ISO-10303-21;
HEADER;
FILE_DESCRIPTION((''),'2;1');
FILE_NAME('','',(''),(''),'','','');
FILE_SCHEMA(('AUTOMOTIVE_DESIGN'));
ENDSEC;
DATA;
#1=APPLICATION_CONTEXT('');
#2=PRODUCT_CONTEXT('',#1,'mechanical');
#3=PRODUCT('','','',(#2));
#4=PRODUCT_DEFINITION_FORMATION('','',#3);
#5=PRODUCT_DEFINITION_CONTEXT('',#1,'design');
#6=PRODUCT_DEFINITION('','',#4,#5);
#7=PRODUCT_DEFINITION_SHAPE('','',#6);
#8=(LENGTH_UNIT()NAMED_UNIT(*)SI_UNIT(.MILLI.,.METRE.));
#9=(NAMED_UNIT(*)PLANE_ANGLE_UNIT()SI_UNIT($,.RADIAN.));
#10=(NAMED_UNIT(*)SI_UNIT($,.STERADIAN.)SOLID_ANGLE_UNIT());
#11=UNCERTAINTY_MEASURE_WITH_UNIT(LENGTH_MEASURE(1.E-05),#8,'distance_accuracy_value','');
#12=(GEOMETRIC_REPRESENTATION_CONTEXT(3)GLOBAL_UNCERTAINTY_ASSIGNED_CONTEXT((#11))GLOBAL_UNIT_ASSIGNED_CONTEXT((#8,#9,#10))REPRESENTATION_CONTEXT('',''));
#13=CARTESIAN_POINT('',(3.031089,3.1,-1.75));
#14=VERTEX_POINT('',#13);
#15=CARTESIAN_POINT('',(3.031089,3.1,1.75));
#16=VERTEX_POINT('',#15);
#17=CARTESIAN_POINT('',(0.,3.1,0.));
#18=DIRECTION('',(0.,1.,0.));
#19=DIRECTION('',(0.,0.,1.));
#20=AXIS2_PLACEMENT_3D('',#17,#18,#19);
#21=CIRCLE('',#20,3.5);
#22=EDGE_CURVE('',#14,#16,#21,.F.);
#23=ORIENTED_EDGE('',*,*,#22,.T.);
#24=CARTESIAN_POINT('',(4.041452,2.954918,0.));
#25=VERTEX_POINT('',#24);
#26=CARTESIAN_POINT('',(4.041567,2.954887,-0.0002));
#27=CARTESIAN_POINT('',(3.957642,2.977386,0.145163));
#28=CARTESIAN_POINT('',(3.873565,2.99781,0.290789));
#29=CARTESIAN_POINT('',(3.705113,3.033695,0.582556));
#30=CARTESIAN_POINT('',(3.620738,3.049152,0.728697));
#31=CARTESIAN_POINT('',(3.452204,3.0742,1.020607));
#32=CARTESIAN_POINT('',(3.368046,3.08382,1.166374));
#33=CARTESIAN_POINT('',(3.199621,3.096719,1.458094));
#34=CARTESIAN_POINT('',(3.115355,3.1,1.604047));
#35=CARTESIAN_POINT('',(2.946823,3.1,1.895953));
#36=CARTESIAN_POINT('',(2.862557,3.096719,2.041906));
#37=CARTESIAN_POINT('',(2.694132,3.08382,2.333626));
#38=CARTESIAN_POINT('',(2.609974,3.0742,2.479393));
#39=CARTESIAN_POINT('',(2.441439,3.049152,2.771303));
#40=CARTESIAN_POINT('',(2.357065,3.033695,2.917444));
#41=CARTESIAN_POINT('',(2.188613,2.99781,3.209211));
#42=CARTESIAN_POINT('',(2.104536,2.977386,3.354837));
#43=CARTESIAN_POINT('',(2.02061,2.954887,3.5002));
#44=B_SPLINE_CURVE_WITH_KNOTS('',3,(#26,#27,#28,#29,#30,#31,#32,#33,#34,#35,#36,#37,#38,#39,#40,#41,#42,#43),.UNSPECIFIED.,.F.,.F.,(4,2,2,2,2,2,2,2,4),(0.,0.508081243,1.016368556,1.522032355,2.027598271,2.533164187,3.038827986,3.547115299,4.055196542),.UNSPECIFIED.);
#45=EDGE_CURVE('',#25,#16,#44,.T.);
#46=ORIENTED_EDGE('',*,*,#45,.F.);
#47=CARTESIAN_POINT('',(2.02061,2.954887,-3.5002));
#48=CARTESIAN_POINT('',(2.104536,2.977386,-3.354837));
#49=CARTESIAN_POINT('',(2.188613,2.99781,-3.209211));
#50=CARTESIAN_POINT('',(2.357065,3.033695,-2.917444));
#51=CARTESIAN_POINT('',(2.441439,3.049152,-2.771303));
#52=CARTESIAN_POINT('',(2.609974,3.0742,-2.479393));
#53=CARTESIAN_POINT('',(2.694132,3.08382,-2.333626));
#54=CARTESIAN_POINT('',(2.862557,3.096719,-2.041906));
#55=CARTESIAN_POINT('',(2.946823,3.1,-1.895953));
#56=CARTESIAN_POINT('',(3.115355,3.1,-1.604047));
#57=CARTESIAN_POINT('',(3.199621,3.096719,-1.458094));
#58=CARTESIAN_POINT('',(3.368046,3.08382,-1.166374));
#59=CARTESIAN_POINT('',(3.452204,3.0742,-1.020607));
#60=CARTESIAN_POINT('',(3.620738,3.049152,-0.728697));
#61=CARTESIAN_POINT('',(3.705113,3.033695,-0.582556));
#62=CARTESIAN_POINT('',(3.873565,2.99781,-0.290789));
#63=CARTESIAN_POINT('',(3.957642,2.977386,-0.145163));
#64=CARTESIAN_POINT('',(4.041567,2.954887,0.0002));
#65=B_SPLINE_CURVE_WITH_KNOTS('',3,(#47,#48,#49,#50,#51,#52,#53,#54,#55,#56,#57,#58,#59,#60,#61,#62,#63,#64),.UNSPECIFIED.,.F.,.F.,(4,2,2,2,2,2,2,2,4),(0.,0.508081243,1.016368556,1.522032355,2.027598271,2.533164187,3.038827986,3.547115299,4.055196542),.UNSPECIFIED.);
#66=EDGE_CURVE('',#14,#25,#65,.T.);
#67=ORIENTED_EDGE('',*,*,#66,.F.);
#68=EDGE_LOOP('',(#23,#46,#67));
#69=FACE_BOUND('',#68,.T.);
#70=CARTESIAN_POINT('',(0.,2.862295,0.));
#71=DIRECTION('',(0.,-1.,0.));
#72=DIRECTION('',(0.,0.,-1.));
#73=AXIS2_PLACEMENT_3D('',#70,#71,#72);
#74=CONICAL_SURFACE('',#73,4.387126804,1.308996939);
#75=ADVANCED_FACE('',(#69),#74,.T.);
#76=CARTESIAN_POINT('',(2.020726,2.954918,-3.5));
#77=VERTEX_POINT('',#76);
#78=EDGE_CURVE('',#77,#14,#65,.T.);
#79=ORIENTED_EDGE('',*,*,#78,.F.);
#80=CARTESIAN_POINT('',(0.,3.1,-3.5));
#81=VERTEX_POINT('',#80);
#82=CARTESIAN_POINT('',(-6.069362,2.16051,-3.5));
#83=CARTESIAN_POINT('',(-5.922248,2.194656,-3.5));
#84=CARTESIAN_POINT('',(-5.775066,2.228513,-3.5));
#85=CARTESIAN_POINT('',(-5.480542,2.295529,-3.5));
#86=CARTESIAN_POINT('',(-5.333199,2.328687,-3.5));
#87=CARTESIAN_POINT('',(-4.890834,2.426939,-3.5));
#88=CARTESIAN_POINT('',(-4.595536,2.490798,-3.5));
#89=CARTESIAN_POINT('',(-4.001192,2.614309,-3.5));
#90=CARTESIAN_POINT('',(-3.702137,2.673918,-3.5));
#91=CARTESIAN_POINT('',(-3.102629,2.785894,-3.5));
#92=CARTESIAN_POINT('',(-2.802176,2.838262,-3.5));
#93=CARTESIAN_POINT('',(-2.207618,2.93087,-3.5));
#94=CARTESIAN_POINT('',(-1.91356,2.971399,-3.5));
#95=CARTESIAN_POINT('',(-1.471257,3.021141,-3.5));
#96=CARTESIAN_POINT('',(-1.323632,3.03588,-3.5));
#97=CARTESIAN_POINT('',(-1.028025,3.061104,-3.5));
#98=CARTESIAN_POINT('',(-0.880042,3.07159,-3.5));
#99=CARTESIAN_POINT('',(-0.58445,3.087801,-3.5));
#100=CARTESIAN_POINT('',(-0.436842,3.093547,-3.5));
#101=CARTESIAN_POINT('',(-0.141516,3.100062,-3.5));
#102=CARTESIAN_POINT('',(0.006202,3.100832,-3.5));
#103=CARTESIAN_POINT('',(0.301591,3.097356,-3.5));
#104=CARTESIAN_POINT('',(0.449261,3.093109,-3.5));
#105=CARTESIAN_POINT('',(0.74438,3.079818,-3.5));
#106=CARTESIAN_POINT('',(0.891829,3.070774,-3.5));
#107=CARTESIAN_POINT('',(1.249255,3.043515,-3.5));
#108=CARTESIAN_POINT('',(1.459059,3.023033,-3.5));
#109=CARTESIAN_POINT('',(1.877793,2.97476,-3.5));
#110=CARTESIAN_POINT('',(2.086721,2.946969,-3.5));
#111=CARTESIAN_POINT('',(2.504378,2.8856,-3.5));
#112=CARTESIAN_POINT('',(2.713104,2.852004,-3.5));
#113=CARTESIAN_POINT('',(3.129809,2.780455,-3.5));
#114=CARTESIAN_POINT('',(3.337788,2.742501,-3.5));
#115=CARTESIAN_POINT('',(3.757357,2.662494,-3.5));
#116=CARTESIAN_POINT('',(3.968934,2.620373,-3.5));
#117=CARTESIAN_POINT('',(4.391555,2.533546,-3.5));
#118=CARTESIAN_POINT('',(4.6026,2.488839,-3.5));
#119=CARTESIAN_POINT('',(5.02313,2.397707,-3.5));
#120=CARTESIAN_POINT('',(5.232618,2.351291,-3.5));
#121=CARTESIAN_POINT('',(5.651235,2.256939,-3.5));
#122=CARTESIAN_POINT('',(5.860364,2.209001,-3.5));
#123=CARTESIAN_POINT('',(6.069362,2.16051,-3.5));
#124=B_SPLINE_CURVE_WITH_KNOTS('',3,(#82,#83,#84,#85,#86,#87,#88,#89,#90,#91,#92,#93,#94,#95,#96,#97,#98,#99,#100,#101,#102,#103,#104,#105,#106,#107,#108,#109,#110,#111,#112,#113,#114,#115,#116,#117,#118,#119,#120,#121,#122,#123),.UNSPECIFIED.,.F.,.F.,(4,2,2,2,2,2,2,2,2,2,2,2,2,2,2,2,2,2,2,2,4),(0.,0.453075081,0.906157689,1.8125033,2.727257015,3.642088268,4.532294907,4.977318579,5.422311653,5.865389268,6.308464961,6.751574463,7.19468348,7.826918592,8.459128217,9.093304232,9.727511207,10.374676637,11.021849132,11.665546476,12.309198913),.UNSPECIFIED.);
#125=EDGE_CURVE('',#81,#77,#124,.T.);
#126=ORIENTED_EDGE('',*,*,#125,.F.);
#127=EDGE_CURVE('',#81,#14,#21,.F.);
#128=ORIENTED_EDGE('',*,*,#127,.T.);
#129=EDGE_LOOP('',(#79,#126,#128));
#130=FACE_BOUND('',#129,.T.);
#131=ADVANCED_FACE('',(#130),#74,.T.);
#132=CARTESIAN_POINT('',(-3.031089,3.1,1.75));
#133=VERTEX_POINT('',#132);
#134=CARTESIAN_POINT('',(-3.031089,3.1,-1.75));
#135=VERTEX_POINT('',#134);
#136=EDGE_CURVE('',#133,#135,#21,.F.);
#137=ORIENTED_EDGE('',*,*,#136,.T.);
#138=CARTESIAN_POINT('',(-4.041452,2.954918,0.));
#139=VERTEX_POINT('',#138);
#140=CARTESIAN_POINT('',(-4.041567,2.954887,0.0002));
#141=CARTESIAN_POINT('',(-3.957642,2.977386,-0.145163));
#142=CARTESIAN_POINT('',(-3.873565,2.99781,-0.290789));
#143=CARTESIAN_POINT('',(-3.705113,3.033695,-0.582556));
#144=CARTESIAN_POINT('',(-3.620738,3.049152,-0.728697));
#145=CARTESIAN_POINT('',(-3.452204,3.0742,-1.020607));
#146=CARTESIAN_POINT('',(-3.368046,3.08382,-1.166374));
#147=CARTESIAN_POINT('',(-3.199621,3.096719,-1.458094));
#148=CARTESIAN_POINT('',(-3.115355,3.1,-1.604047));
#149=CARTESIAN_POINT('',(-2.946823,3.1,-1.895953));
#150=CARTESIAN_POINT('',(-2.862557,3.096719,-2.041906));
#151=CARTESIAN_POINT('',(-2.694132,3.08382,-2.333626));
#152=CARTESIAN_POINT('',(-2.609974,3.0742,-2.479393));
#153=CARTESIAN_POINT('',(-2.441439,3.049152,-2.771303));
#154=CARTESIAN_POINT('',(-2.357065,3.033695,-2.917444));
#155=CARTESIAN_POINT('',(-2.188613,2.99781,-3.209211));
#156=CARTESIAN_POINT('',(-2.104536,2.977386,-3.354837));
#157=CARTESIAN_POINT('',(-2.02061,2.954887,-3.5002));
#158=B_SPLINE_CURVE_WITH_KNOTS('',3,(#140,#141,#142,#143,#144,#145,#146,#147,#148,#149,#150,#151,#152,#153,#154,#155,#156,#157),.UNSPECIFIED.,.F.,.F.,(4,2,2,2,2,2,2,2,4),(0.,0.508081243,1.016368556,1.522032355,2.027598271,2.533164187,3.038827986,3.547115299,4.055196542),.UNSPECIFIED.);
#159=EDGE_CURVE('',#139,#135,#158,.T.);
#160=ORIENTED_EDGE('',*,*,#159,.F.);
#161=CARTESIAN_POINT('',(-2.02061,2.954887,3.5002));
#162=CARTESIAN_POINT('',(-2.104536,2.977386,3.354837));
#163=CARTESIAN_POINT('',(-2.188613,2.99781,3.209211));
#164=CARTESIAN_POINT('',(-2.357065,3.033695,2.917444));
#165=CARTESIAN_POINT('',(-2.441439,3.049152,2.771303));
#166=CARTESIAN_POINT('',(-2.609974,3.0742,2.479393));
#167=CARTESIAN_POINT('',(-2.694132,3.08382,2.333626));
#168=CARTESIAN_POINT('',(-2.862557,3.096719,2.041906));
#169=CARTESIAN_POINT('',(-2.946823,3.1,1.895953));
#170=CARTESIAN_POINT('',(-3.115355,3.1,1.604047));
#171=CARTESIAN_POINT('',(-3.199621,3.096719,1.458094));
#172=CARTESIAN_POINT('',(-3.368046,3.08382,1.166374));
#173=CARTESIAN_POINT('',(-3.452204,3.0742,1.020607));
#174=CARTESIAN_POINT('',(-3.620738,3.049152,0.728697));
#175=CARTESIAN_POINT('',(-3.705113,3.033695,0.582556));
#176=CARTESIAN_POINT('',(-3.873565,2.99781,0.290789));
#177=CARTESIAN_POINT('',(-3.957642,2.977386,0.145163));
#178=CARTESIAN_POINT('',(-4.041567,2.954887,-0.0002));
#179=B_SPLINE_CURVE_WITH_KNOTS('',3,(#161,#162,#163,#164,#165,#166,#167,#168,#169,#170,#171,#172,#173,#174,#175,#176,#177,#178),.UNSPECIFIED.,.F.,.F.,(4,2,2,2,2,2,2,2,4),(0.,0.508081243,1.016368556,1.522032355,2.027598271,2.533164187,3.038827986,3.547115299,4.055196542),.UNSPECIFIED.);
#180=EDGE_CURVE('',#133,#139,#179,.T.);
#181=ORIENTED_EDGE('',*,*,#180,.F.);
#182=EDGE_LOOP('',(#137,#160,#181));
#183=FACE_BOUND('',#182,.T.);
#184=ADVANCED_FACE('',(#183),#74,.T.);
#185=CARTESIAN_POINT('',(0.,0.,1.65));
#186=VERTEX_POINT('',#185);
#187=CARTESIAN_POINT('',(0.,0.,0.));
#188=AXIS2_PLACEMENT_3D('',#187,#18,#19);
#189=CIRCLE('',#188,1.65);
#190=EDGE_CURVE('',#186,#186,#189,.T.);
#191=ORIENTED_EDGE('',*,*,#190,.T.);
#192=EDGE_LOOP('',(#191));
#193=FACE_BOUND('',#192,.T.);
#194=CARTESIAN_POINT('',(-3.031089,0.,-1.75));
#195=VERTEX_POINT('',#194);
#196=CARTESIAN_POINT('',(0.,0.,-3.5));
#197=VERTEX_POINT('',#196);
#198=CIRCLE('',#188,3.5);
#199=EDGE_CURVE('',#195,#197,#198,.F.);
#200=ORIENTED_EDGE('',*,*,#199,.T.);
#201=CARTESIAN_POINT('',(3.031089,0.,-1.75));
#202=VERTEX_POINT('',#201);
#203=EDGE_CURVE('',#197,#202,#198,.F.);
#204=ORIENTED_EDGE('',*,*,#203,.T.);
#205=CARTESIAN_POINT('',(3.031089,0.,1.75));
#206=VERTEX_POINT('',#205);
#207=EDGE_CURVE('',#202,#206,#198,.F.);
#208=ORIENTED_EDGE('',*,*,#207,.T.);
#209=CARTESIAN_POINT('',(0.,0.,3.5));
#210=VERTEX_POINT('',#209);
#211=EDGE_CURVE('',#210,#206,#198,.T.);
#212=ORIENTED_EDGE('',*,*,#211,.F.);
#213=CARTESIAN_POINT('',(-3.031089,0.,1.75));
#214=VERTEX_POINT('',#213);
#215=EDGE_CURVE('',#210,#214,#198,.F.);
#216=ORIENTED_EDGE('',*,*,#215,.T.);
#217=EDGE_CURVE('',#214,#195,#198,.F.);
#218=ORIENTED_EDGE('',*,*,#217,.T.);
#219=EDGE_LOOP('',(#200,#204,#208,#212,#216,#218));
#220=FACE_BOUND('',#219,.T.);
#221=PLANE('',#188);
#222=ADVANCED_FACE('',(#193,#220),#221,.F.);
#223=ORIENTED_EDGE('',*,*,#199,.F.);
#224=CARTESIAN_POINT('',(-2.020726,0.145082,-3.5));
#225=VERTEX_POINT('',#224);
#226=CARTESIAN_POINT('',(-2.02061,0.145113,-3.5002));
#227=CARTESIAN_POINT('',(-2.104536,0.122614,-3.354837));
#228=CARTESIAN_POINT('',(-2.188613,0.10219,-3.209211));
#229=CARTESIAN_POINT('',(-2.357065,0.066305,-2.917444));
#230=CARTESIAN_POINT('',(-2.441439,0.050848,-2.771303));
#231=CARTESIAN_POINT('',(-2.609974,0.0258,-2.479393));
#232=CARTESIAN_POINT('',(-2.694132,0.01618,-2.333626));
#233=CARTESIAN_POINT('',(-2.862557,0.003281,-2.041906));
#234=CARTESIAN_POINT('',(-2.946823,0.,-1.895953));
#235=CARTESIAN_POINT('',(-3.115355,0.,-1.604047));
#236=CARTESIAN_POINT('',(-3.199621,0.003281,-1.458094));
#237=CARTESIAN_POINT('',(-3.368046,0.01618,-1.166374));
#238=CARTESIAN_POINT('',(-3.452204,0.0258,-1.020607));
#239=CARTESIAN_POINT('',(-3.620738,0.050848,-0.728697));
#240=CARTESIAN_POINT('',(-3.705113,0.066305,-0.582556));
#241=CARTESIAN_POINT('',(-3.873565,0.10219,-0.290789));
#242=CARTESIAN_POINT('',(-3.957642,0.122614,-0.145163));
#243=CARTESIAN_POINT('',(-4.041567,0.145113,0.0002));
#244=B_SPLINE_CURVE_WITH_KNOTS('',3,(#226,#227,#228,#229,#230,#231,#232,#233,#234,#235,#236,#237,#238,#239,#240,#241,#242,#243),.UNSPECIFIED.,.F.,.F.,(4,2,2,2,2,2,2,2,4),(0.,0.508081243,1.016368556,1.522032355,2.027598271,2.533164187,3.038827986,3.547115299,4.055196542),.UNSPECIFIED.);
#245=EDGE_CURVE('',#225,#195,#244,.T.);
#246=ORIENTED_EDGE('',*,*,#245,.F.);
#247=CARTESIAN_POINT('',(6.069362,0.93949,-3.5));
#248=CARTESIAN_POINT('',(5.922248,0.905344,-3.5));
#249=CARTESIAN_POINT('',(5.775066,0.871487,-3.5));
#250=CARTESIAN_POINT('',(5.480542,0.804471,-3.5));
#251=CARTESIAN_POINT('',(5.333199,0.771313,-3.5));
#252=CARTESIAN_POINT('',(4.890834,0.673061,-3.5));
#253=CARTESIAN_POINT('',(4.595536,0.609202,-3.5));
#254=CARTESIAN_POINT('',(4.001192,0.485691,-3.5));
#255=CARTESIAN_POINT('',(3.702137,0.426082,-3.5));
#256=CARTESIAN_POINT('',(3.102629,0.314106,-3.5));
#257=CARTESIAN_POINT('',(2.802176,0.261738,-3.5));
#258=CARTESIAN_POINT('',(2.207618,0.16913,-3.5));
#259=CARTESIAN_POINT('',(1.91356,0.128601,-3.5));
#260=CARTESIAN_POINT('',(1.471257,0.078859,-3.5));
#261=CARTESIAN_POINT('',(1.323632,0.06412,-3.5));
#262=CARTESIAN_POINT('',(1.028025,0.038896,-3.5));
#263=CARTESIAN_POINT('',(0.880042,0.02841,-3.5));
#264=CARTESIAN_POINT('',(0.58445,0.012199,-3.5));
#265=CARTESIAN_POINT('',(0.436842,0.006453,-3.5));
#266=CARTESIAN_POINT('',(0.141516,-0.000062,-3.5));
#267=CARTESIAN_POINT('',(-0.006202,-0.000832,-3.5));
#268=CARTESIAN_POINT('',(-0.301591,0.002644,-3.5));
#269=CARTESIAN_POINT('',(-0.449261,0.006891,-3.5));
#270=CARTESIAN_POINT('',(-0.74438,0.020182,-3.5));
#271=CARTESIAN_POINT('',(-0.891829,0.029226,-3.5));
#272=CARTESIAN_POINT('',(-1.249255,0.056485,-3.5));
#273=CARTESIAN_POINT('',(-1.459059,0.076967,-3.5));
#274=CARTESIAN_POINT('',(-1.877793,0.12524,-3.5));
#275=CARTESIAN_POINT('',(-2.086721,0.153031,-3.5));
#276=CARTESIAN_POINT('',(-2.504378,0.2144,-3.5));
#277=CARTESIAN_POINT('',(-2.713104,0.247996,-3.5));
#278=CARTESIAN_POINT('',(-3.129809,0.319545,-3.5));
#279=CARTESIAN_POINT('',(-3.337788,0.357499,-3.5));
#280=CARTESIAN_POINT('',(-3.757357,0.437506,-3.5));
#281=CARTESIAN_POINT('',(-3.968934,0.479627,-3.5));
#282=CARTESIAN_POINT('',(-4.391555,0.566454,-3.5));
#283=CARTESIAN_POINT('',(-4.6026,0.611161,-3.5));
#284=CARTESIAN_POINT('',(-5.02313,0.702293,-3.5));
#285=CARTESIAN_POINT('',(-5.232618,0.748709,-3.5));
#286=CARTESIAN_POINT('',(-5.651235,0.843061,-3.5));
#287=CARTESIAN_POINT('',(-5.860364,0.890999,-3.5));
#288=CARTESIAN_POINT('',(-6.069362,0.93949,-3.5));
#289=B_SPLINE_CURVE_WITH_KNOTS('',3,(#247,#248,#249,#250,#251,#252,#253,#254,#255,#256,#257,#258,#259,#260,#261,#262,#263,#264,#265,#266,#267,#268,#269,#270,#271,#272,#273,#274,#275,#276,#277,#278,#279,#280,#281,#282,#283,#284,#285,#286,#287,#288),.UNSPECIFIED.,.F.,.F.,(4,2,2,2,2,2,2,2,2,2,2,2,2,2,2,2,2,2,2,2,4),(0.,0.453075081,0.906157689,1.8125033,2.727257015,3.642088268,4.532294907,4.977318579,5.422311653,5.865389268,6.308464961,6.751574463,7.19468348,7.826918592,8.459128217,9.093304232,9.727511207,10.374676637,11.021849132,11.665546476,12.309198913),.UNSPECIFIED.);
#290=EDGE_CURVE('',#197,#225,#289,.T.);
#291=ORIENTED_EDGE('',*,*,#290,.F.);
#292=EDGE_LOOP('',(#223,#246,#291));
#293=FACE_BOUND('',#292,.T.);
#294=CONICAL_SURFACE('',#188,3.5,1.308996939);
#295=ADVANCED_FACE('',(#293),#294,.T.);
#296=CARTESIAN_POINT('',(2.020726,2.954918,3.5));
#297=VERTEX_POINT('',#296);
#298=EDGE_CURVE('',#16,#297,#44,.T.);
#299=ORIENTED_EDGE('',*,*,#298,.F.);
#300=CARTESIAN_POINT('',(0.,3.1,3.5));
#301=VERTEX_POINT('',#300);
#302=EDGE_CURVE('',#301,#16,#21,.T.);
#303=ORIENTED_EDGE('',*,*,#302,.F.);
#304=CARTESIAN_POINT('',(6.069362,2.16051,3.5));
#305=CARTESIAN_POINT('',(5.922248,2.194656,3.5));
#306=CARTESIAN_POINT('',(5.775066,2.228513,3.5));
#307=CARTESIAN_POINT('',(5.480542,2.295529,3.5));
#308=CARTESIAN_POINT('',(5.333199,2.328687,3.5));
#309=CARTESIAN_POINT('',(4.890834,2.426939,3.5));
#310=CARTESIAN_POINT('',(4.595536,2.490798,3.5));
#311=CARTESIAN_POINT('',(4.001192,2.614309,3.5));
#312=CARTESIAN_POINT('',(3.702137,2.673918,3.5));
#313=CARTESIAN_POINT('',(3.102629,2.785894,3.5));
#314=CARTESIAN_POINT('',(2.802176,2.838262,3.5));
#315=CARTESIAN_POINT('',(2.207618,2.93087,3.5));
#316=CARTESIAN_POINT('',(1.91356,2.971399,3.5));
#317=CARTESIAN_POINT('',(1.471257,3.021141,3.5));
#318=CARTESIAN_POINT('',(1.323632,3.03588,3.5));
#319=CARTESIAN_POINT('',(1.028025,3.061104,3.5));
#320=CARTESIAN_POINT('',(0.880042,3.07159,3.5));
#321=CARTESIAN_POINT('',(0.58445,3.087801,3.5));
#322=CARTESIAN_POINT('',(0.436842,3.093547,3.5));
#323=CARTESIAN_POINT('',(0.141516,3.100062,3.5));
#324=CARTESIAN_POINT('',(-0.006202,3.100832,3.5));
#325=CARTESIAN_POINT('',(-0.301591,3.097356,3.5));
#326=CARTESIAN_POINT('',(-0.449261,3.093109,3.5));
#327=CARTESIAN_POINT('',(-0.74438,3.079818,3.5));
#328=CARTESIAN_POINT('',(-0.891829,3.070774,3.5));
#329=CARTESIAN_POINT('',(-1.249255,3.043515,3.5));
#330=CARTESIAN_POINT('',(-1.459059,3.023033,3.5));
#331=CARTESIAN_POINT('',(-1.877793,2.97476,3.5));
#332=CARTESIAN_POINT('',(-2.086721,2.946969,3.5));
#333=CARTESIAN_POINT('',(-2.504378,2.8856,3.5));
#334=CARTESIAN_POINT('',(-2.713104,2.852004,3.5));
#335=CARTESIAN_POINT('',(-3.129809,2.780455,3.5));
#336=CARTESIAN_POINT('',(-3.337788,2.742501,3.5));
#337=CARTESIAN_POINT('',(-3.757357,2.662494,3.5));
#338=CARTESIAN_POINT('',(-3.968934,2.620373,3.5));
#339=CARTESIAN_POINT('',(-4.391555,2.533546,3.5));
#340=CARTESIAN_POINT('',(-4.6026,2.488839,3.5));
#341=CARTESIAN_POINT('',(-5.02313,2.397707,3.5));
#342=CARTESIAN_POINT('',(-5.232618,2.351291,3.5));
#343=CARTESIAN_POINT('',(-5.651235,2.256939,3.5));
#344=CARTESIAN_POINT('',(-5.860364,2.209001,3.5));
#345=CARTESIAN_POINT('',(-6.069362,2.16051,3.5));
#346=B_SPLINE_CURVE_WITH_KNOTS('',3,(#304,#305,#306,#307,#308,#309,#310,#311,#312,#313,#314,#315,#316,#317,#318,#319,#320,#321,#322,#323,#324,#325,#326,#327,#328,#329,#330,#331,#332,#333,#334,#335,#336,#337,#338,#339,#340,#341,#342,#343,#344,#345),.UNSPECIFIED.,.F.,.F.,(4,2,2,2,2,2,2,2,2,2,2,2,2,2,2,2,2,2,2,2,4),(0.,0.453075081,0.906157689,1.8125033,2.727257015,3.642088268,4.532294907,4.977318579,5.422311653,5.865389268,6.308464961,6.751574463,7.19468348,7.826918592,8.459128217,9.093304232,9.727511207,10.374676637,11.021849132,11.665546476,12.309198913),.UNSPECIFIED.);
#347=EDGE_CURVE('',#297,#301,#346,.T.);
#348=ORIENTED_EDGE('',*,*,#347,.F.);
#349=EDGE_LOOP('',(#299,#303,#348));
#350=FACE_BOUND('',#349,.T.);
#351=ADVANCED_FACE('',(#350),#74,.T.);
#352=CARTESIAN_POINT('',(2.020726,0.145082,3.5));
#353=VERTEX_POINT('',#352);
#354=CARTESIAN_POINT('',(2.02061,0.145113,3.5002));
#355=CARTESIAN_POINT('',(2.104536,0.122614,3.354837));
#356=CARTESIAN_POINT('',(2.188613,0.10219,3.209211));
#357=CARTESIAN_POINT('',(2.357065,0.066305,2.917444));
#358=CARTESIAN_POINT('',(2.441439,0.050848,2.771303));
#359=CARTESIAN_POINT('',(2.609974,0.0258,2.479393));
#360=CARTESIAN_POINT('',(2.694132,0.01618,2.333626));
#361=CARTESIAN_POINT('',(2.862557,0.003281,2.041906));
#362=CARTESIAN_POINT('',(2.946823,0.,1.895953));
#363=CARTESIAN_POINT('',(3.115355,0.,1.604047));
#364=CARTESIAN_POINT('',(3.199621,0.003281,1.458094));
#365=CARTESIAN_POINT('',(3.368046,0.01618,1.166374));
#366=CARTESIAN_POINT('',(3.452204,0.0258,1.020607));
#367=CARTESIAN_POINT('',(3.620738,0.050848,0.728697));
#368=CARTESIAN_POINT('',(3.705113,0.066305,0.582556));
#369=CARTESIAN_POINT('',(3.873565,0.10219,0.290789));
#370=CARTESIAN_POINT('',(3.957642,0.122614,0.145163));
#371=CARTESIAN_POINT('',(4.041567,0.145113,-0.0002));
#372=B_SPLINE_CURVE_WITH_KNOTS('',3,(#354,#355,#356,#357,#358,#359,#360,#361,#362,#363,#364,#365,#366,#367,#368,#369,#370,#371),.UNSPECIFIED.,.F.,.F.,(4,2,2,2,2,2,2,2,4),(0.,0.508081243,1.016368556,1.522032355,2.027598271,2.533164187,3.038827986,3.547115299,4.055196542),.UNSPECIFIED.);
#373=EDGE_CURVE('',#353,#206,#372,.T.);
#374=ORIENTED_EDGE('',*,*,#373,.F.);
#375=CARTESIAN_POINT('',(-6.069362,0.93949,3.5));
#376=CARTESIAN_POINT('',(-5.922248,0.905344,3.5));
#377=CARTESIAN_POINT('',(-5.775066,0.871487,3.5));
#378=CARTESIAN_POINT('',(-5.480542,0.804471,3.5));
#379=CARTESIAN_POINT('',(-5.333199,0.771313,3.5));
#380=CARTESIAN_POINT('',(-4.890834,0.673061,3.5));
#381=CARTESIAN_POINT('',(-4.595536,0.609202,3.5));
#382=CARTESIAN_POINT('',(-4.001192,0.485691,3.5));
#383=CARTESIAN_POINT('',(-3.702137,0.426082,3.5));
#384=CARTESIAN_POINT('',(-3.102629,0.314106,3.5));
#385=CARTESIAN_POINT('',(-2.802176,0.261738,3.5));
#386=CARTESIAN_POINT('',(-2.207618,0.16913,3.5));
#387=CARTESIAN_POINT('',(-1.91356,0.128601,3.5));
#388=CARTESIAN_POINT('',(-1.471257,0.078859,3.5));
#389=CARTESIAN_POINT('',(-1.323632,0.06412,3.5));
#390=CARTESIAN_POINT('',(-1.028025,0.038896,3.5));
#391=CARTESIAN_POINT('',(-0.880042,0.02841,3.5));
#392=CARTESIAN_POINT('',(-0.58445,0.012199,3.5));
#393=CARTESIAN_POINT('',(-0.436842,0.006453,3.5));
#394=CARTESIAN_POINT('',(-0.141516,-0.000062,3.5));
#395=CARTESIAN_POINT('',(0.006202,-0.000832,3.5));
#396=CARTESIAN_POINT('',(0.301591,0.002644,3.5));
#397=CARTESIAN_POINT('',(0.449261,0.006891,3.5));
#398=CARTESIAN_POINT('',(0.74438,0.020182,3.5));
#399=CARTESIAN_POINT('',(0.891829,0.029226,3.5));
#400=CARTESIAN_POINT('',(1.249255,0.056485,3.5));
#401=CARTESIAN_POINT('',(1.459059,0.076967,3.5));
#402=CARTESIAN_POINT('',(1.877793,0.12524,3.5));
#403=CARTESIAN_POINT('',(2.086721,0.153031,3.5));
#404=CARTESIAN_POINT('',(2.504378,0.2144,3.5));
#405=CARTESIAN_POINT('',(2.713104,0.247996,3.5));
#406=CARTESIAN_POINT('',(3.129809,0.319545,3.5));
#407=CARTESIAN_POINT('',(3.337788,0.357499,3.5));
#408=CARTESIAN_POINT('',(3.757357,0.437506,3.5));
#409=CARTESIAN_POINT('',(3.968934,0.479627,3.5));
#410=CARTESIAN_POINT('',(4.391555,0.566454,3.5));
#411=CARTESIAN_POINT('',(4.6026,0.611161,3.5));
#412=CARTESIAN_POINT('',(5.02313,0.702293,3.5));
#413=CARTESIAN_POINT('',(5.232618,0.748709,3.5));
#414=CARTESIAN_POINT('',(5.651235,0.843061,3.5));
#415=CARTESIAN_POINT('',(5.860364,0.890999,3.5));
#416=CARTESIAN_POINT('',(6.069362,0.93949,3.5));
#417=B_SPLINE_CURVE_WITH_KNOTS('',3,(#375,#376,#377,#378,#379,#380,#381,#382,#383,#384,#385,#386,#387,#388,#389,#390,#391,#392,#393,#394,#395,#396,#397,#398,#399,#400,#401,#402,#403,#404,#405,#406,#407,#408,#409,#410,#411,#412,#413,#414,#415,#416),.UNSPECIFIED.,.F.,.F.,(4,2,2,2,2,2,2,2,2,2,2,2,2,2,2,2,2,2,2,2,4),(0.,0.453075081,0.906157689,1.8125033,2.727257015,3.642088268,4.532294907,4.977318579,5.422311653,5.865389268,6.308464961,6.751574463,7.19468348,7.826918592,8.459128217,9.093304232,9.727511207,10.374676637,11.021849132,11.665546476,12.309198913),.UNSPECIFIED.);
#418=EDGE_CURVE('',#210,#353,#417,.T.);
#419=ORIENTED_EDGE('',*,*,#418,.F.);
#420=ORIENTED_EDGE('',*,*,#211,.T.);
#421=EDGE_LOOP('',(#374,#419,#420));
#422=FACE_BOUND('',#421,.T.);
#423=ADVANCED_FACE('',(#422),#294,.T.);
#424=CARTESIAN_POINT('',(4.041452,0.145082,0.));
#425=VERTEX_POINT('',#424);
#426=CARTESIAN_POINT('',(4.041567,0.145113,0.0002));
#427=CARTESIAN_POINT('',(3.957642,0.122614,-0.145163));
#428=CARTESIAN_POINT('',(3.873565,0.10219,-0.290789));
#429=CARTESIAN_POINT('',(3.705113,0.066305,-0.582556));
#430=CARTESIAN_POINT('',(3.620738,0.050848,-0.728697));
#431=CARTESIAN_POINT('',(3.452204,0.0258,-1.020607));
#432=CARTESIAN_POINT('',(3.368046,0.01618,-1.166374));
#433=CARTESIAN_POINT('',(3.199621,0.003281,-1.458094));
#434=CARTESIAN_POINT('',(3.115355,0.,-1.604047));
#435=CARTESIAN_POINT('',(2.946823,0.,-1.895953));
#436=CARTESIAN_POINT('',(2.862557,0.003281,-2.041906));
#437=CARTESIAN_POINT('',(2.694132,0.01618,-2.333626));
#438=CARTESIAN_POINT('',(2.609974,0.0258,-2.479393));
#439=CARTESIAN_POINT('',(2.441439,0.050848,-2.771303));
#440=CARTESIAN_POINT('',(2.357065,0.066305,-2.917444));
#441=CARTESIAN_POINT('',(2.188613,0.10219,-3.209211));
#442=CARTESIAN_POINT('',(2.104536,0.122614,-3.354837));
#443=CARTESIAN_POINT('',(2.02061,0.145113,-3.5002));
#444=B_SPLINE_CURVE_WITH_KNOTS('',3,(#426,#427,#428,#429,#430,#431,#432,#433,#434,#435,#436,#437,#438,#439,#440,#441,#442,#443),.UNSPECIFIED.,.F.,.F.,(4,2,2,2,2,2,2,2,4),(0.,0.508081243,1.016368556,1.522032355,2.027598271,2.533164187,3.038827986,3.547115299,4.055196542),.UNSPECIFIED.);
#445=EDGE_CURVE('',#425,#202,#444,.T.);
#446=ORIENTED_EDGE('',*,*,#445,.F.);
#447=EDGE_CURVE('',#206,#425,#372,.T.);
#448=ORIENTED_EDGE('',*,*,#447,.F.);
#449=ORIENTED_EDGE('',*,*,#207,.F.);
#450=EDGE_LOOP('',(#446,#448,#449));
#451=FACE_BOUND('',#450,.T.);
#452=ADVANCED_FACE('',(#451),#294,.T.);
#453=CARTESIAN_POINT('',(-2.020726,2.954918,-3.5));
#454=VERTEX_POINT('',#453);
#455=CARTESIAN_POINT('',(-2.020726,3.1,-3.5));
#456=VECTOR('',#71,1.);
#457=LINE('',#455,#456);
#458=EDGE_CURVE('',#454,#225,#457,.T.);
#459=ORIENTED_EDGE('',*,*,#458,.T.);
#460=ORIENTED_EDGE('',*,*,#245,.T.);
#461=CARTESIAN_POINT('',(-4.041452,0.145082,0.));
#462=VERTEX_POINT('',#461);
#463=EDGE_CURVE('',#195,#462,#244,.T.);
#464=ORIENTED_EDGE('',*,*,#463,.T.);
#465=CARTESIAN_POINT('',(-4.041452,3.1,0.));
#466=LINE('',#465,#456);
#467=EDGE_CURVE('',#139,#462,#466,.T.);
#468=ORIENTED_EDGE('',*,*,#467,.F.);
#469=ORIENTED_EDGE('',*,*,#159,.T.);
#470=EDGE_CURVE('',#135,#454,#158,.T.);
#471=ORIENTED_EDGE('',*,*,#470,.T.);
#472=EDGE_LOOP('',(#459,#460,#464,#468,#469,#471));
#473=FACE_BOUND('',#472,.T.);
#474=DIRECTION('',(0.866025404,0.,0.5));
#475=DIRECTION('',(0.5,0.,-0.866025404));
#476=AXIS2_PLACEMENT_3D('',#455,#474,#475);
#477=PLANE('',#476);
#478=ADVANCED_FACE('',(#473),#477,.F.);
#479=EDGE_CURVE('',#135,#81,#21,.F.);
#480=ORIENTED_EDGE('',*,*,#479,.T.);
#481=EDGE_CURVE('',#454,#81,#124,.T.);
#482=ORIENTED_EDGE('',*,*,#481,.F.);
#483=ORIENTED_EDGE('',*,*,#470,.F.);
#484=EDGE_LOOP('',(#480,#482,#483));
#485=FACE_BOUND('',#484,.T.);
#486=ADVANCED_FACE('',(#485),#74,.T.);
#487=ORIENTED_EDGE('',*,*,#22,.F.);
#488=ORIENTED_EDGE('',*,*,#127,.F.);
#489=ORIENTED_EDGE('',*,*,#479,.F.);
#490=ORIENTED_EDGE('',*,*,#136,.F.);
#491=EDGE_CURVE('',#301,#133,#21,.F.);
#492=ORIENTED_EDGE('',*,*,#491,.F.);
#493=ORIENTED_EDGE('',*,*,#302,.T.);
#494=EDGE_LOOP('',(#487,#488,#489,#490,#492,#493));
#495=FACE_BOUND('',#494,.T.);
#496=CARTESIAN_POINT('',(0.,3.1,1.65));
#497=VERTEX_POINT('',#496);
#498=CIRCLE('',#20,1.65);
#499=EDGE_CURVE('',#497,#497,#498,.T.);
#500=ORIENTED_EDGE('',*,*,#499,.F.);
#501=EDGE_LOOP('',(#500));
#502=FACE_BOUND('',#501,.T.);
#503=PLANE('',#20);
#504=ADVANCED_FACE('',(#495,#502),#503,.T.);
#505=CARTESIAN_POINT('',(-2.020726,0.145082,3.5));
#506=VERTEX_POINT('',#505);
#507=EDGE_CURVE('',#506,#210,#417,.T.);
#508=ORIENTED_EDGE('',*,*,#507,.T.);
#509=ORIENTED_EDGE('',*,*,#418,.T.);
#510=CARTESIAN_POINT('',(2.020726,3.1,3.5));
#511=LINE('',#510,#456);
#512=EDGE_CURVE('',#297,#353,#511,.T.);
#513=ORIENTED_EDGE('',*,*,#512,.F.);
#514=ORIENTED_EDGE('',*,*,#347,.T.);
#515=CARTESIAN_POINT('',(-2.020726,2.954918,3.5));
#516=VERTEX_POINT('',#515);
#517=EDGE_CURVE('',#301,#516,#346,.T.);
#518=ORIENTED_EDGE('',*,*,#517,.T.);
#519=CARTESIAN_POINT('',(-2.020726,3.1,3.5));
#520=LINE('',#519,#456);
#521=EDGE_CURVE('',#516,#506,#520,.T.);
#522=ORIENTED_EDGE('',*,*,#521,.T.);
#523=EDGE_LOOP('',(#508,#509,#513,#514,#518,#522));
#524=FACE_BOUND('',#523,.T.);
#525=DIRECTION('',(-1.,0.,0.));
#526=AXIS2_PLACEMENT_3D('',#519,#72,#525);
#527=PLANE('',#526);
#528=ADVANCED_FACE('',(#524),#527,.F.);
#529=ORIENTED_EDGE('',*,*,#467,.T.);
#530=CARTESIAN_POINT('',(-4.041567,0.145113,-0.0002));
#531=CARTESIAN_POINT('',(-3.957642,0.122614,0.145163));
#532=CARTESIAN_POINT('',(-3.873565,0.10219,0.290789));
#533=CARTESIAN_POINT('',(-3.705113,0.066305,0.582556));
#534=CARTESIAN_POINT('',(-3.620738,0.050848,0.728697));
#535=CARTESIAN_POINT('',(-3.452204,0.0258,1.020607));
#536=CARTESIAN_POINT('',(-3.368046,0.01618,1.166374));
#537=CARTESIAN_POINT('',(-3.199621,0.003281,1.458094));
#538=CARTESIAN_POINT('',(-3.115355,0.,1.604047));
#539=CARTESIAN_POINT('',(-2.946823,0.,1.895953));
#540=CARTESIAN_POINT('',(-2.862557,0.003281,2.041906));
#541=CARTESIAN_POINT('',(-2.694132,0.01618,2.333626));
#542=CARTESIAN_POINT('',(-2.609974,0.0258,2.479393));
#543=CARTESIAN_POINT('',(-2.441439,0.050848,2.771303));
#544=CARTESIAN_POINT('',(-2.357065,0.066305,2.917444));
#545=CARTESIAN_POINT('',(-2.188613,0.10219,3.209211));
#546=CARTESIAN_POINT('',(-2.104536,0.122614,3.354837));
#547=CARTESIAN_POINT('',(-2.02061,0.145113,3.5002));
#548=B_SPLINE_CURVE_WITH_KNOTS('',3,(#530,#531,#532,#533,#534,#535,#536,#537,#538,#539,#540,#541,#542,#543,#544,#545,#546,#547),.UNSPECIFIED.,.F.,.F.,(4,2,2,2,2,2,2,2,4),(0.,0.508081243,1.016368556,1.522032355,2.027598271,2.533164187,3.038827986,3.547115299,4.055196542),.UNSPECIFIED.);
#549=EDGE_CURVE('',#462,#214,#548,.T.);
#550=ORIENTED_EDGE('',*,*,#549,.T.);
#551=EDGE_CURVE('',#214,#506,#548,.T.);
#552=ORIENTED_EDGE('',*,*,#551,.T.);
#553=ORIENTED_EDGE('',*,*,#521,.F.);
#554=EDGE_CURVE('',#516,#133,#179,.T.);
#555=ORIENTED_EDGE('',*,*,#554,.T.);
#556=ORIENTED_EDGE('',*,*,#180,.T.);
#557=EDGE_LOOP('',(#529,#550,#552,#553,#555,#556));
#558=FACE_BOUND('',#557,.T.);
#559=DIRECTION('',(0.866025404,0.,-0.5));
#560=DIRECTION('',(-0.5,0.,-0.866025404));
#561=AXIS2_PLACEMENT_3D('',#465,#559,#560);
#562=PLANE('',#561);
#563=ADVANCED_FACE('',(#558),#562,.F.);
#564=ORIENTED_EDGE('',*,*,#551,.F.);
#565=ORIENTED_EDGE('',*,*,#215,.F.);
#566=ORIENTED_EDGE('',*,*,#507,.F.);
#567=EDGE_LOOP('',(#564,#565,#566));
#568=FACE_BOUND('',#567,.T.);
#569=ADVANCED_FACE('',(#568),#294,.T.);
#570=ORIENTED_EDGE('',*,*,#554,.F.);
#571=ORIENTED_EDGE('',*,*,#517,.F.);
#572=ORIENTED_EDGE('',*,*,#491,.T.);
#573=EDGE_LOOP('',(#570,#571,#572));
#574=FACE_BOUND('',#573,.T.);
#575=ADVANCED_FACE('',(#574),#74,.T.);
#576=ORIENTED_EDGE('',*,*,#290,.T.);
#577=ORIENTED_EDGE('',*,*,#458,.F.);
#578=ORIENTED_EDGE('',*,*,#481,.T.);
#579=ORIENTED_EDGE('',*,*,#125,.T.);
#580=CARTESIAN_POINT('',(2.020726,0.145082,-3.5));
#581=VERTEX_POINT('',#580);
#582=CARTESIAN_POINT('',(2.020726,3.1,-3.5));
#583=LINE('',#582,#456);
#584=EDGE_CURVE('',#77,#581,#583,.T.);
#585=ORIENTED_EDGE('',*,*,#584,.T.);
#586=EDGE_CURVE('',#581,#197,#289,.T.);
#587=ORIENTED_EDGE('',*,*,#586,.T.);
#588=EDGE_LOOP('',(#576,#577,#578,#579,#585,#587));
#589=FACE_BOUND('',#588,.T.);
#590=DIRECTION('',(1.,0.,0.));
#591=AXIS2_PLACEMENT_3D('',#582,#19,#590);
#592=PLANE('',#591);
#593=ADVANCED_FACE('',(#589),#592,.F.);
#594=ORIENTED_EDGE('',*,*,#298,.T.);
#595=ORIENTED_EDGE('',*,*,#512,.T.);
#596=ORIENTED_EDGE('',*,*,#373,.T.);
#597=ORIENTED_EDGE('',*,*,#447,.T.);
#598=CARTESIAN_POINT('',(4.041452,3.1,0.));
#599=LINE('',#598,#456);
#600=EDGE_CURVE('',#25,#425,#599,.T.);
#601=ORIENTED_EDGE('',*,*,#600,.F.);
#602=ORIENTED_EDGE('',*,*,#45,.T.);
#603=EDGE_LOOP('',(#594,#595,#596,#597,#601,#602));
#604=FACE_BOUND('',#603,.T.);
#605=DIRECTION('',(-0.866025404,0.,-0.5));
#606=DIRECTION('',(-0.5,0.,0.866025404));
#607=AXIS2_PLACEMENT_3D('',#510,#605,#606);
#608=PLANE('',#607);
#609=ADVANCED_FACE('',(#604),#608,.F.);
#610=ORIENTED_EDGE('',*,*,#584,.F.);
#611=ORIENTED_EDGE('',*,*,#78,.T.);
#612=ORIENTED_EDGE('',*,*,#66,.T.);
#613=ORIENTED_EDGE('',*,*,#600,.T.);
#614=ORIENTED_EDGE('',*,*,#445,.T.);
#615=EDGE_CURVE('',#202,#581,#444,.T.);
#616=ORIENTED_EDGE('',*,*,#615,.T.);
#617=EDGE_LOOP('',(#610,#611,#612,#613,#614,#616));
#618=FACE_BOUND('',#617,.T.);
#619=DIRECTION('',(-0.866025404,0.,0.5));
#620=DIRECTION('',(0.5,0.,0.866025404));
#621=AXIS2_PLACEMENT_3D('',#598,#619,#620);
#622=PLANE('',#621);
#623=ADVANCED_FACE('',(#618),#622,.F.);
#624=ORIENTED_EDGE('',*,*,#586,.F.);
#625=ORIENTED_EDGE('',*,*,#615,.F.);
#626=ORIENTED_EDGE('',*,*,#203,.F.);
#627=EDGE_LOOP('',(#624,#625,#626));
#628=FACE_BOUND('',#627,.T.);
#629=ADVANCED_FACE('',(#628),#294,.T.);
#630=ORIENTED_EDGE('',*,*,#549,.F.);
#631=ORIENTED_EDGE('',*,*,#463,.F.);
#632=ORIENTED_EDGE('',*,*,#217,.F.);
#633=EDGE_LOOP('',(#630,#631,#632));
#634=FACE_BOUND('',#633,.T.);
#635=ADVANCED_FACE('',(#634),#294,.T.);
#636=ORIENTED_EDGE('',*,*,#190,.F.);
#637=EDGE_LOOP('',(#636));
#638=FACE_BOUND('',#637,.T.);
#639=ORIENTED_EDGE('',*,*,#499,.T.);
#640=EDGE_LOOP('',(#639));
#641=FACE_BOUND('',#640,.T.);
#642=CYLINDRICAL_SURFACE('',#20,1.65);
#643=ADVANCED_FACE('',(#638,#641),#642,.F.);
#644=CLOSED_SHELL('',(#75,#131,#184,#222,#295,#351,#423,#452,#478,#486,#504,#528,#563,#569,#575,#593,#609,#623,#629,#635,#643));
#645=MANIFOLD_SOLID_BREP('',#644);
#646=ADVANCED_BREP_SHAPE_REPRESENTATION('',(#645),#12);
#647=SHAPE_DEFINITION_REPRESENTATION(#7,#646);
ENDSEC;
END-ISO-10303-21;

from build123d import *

# Parameters (mm, degrees)
EXTRUDE_1_DEPTH    = 3.1
HOLE_WIZARD_M4_1_D = 3.3


with BuildPart() as part:
    # 草图1 → 凸台-拉伸1 (new body)
    with BuildSketch(Plane(origin=(0, 0, 0), x_dir=(1, 0, 0), z_dir=(0, 1, 0))):
        Polygon((4.041451884, 0), (2.020725942, 3.5), (-2.020725942, 3.5), (-4.041451884, 0), (-2.020725942, -3.5), (2.020725942, -3.5), align=None)
    extrude(amount=EXTRUDE_1_DEPTH)

    # M4 螺纹孔1 (through all)
    with Locations(Plane(origin=(0, 3.1, 0), x_dir=(1, 0, 0), z_dir=(0, 1, 0))):
        with Locations((0, 0)):
            Hole(HOLE_WIZARD_M4_1_D / 2)

    # 草图5 → 切除-旋转1 (revolve, cut)
    with BuildSketch(Plane(origin=(0, 0, 0), x_dir=(0, 0, -1), z_dir=(1, 0, 0))):
        Polygon((-3.5, 0), (-4.387126804, 0.237704911), (-4.387126804, -0.855779568), align=None)
        Polygon((-4.387126804, 3.955779568), (-3.5, 3.1), (-4.387126804, 2.862295089), align=None)
    revolve(axis=Axis((0, 0, 0), (0, -1, 0)), mode=Mode.SUBTRACT)


solid = part.part
